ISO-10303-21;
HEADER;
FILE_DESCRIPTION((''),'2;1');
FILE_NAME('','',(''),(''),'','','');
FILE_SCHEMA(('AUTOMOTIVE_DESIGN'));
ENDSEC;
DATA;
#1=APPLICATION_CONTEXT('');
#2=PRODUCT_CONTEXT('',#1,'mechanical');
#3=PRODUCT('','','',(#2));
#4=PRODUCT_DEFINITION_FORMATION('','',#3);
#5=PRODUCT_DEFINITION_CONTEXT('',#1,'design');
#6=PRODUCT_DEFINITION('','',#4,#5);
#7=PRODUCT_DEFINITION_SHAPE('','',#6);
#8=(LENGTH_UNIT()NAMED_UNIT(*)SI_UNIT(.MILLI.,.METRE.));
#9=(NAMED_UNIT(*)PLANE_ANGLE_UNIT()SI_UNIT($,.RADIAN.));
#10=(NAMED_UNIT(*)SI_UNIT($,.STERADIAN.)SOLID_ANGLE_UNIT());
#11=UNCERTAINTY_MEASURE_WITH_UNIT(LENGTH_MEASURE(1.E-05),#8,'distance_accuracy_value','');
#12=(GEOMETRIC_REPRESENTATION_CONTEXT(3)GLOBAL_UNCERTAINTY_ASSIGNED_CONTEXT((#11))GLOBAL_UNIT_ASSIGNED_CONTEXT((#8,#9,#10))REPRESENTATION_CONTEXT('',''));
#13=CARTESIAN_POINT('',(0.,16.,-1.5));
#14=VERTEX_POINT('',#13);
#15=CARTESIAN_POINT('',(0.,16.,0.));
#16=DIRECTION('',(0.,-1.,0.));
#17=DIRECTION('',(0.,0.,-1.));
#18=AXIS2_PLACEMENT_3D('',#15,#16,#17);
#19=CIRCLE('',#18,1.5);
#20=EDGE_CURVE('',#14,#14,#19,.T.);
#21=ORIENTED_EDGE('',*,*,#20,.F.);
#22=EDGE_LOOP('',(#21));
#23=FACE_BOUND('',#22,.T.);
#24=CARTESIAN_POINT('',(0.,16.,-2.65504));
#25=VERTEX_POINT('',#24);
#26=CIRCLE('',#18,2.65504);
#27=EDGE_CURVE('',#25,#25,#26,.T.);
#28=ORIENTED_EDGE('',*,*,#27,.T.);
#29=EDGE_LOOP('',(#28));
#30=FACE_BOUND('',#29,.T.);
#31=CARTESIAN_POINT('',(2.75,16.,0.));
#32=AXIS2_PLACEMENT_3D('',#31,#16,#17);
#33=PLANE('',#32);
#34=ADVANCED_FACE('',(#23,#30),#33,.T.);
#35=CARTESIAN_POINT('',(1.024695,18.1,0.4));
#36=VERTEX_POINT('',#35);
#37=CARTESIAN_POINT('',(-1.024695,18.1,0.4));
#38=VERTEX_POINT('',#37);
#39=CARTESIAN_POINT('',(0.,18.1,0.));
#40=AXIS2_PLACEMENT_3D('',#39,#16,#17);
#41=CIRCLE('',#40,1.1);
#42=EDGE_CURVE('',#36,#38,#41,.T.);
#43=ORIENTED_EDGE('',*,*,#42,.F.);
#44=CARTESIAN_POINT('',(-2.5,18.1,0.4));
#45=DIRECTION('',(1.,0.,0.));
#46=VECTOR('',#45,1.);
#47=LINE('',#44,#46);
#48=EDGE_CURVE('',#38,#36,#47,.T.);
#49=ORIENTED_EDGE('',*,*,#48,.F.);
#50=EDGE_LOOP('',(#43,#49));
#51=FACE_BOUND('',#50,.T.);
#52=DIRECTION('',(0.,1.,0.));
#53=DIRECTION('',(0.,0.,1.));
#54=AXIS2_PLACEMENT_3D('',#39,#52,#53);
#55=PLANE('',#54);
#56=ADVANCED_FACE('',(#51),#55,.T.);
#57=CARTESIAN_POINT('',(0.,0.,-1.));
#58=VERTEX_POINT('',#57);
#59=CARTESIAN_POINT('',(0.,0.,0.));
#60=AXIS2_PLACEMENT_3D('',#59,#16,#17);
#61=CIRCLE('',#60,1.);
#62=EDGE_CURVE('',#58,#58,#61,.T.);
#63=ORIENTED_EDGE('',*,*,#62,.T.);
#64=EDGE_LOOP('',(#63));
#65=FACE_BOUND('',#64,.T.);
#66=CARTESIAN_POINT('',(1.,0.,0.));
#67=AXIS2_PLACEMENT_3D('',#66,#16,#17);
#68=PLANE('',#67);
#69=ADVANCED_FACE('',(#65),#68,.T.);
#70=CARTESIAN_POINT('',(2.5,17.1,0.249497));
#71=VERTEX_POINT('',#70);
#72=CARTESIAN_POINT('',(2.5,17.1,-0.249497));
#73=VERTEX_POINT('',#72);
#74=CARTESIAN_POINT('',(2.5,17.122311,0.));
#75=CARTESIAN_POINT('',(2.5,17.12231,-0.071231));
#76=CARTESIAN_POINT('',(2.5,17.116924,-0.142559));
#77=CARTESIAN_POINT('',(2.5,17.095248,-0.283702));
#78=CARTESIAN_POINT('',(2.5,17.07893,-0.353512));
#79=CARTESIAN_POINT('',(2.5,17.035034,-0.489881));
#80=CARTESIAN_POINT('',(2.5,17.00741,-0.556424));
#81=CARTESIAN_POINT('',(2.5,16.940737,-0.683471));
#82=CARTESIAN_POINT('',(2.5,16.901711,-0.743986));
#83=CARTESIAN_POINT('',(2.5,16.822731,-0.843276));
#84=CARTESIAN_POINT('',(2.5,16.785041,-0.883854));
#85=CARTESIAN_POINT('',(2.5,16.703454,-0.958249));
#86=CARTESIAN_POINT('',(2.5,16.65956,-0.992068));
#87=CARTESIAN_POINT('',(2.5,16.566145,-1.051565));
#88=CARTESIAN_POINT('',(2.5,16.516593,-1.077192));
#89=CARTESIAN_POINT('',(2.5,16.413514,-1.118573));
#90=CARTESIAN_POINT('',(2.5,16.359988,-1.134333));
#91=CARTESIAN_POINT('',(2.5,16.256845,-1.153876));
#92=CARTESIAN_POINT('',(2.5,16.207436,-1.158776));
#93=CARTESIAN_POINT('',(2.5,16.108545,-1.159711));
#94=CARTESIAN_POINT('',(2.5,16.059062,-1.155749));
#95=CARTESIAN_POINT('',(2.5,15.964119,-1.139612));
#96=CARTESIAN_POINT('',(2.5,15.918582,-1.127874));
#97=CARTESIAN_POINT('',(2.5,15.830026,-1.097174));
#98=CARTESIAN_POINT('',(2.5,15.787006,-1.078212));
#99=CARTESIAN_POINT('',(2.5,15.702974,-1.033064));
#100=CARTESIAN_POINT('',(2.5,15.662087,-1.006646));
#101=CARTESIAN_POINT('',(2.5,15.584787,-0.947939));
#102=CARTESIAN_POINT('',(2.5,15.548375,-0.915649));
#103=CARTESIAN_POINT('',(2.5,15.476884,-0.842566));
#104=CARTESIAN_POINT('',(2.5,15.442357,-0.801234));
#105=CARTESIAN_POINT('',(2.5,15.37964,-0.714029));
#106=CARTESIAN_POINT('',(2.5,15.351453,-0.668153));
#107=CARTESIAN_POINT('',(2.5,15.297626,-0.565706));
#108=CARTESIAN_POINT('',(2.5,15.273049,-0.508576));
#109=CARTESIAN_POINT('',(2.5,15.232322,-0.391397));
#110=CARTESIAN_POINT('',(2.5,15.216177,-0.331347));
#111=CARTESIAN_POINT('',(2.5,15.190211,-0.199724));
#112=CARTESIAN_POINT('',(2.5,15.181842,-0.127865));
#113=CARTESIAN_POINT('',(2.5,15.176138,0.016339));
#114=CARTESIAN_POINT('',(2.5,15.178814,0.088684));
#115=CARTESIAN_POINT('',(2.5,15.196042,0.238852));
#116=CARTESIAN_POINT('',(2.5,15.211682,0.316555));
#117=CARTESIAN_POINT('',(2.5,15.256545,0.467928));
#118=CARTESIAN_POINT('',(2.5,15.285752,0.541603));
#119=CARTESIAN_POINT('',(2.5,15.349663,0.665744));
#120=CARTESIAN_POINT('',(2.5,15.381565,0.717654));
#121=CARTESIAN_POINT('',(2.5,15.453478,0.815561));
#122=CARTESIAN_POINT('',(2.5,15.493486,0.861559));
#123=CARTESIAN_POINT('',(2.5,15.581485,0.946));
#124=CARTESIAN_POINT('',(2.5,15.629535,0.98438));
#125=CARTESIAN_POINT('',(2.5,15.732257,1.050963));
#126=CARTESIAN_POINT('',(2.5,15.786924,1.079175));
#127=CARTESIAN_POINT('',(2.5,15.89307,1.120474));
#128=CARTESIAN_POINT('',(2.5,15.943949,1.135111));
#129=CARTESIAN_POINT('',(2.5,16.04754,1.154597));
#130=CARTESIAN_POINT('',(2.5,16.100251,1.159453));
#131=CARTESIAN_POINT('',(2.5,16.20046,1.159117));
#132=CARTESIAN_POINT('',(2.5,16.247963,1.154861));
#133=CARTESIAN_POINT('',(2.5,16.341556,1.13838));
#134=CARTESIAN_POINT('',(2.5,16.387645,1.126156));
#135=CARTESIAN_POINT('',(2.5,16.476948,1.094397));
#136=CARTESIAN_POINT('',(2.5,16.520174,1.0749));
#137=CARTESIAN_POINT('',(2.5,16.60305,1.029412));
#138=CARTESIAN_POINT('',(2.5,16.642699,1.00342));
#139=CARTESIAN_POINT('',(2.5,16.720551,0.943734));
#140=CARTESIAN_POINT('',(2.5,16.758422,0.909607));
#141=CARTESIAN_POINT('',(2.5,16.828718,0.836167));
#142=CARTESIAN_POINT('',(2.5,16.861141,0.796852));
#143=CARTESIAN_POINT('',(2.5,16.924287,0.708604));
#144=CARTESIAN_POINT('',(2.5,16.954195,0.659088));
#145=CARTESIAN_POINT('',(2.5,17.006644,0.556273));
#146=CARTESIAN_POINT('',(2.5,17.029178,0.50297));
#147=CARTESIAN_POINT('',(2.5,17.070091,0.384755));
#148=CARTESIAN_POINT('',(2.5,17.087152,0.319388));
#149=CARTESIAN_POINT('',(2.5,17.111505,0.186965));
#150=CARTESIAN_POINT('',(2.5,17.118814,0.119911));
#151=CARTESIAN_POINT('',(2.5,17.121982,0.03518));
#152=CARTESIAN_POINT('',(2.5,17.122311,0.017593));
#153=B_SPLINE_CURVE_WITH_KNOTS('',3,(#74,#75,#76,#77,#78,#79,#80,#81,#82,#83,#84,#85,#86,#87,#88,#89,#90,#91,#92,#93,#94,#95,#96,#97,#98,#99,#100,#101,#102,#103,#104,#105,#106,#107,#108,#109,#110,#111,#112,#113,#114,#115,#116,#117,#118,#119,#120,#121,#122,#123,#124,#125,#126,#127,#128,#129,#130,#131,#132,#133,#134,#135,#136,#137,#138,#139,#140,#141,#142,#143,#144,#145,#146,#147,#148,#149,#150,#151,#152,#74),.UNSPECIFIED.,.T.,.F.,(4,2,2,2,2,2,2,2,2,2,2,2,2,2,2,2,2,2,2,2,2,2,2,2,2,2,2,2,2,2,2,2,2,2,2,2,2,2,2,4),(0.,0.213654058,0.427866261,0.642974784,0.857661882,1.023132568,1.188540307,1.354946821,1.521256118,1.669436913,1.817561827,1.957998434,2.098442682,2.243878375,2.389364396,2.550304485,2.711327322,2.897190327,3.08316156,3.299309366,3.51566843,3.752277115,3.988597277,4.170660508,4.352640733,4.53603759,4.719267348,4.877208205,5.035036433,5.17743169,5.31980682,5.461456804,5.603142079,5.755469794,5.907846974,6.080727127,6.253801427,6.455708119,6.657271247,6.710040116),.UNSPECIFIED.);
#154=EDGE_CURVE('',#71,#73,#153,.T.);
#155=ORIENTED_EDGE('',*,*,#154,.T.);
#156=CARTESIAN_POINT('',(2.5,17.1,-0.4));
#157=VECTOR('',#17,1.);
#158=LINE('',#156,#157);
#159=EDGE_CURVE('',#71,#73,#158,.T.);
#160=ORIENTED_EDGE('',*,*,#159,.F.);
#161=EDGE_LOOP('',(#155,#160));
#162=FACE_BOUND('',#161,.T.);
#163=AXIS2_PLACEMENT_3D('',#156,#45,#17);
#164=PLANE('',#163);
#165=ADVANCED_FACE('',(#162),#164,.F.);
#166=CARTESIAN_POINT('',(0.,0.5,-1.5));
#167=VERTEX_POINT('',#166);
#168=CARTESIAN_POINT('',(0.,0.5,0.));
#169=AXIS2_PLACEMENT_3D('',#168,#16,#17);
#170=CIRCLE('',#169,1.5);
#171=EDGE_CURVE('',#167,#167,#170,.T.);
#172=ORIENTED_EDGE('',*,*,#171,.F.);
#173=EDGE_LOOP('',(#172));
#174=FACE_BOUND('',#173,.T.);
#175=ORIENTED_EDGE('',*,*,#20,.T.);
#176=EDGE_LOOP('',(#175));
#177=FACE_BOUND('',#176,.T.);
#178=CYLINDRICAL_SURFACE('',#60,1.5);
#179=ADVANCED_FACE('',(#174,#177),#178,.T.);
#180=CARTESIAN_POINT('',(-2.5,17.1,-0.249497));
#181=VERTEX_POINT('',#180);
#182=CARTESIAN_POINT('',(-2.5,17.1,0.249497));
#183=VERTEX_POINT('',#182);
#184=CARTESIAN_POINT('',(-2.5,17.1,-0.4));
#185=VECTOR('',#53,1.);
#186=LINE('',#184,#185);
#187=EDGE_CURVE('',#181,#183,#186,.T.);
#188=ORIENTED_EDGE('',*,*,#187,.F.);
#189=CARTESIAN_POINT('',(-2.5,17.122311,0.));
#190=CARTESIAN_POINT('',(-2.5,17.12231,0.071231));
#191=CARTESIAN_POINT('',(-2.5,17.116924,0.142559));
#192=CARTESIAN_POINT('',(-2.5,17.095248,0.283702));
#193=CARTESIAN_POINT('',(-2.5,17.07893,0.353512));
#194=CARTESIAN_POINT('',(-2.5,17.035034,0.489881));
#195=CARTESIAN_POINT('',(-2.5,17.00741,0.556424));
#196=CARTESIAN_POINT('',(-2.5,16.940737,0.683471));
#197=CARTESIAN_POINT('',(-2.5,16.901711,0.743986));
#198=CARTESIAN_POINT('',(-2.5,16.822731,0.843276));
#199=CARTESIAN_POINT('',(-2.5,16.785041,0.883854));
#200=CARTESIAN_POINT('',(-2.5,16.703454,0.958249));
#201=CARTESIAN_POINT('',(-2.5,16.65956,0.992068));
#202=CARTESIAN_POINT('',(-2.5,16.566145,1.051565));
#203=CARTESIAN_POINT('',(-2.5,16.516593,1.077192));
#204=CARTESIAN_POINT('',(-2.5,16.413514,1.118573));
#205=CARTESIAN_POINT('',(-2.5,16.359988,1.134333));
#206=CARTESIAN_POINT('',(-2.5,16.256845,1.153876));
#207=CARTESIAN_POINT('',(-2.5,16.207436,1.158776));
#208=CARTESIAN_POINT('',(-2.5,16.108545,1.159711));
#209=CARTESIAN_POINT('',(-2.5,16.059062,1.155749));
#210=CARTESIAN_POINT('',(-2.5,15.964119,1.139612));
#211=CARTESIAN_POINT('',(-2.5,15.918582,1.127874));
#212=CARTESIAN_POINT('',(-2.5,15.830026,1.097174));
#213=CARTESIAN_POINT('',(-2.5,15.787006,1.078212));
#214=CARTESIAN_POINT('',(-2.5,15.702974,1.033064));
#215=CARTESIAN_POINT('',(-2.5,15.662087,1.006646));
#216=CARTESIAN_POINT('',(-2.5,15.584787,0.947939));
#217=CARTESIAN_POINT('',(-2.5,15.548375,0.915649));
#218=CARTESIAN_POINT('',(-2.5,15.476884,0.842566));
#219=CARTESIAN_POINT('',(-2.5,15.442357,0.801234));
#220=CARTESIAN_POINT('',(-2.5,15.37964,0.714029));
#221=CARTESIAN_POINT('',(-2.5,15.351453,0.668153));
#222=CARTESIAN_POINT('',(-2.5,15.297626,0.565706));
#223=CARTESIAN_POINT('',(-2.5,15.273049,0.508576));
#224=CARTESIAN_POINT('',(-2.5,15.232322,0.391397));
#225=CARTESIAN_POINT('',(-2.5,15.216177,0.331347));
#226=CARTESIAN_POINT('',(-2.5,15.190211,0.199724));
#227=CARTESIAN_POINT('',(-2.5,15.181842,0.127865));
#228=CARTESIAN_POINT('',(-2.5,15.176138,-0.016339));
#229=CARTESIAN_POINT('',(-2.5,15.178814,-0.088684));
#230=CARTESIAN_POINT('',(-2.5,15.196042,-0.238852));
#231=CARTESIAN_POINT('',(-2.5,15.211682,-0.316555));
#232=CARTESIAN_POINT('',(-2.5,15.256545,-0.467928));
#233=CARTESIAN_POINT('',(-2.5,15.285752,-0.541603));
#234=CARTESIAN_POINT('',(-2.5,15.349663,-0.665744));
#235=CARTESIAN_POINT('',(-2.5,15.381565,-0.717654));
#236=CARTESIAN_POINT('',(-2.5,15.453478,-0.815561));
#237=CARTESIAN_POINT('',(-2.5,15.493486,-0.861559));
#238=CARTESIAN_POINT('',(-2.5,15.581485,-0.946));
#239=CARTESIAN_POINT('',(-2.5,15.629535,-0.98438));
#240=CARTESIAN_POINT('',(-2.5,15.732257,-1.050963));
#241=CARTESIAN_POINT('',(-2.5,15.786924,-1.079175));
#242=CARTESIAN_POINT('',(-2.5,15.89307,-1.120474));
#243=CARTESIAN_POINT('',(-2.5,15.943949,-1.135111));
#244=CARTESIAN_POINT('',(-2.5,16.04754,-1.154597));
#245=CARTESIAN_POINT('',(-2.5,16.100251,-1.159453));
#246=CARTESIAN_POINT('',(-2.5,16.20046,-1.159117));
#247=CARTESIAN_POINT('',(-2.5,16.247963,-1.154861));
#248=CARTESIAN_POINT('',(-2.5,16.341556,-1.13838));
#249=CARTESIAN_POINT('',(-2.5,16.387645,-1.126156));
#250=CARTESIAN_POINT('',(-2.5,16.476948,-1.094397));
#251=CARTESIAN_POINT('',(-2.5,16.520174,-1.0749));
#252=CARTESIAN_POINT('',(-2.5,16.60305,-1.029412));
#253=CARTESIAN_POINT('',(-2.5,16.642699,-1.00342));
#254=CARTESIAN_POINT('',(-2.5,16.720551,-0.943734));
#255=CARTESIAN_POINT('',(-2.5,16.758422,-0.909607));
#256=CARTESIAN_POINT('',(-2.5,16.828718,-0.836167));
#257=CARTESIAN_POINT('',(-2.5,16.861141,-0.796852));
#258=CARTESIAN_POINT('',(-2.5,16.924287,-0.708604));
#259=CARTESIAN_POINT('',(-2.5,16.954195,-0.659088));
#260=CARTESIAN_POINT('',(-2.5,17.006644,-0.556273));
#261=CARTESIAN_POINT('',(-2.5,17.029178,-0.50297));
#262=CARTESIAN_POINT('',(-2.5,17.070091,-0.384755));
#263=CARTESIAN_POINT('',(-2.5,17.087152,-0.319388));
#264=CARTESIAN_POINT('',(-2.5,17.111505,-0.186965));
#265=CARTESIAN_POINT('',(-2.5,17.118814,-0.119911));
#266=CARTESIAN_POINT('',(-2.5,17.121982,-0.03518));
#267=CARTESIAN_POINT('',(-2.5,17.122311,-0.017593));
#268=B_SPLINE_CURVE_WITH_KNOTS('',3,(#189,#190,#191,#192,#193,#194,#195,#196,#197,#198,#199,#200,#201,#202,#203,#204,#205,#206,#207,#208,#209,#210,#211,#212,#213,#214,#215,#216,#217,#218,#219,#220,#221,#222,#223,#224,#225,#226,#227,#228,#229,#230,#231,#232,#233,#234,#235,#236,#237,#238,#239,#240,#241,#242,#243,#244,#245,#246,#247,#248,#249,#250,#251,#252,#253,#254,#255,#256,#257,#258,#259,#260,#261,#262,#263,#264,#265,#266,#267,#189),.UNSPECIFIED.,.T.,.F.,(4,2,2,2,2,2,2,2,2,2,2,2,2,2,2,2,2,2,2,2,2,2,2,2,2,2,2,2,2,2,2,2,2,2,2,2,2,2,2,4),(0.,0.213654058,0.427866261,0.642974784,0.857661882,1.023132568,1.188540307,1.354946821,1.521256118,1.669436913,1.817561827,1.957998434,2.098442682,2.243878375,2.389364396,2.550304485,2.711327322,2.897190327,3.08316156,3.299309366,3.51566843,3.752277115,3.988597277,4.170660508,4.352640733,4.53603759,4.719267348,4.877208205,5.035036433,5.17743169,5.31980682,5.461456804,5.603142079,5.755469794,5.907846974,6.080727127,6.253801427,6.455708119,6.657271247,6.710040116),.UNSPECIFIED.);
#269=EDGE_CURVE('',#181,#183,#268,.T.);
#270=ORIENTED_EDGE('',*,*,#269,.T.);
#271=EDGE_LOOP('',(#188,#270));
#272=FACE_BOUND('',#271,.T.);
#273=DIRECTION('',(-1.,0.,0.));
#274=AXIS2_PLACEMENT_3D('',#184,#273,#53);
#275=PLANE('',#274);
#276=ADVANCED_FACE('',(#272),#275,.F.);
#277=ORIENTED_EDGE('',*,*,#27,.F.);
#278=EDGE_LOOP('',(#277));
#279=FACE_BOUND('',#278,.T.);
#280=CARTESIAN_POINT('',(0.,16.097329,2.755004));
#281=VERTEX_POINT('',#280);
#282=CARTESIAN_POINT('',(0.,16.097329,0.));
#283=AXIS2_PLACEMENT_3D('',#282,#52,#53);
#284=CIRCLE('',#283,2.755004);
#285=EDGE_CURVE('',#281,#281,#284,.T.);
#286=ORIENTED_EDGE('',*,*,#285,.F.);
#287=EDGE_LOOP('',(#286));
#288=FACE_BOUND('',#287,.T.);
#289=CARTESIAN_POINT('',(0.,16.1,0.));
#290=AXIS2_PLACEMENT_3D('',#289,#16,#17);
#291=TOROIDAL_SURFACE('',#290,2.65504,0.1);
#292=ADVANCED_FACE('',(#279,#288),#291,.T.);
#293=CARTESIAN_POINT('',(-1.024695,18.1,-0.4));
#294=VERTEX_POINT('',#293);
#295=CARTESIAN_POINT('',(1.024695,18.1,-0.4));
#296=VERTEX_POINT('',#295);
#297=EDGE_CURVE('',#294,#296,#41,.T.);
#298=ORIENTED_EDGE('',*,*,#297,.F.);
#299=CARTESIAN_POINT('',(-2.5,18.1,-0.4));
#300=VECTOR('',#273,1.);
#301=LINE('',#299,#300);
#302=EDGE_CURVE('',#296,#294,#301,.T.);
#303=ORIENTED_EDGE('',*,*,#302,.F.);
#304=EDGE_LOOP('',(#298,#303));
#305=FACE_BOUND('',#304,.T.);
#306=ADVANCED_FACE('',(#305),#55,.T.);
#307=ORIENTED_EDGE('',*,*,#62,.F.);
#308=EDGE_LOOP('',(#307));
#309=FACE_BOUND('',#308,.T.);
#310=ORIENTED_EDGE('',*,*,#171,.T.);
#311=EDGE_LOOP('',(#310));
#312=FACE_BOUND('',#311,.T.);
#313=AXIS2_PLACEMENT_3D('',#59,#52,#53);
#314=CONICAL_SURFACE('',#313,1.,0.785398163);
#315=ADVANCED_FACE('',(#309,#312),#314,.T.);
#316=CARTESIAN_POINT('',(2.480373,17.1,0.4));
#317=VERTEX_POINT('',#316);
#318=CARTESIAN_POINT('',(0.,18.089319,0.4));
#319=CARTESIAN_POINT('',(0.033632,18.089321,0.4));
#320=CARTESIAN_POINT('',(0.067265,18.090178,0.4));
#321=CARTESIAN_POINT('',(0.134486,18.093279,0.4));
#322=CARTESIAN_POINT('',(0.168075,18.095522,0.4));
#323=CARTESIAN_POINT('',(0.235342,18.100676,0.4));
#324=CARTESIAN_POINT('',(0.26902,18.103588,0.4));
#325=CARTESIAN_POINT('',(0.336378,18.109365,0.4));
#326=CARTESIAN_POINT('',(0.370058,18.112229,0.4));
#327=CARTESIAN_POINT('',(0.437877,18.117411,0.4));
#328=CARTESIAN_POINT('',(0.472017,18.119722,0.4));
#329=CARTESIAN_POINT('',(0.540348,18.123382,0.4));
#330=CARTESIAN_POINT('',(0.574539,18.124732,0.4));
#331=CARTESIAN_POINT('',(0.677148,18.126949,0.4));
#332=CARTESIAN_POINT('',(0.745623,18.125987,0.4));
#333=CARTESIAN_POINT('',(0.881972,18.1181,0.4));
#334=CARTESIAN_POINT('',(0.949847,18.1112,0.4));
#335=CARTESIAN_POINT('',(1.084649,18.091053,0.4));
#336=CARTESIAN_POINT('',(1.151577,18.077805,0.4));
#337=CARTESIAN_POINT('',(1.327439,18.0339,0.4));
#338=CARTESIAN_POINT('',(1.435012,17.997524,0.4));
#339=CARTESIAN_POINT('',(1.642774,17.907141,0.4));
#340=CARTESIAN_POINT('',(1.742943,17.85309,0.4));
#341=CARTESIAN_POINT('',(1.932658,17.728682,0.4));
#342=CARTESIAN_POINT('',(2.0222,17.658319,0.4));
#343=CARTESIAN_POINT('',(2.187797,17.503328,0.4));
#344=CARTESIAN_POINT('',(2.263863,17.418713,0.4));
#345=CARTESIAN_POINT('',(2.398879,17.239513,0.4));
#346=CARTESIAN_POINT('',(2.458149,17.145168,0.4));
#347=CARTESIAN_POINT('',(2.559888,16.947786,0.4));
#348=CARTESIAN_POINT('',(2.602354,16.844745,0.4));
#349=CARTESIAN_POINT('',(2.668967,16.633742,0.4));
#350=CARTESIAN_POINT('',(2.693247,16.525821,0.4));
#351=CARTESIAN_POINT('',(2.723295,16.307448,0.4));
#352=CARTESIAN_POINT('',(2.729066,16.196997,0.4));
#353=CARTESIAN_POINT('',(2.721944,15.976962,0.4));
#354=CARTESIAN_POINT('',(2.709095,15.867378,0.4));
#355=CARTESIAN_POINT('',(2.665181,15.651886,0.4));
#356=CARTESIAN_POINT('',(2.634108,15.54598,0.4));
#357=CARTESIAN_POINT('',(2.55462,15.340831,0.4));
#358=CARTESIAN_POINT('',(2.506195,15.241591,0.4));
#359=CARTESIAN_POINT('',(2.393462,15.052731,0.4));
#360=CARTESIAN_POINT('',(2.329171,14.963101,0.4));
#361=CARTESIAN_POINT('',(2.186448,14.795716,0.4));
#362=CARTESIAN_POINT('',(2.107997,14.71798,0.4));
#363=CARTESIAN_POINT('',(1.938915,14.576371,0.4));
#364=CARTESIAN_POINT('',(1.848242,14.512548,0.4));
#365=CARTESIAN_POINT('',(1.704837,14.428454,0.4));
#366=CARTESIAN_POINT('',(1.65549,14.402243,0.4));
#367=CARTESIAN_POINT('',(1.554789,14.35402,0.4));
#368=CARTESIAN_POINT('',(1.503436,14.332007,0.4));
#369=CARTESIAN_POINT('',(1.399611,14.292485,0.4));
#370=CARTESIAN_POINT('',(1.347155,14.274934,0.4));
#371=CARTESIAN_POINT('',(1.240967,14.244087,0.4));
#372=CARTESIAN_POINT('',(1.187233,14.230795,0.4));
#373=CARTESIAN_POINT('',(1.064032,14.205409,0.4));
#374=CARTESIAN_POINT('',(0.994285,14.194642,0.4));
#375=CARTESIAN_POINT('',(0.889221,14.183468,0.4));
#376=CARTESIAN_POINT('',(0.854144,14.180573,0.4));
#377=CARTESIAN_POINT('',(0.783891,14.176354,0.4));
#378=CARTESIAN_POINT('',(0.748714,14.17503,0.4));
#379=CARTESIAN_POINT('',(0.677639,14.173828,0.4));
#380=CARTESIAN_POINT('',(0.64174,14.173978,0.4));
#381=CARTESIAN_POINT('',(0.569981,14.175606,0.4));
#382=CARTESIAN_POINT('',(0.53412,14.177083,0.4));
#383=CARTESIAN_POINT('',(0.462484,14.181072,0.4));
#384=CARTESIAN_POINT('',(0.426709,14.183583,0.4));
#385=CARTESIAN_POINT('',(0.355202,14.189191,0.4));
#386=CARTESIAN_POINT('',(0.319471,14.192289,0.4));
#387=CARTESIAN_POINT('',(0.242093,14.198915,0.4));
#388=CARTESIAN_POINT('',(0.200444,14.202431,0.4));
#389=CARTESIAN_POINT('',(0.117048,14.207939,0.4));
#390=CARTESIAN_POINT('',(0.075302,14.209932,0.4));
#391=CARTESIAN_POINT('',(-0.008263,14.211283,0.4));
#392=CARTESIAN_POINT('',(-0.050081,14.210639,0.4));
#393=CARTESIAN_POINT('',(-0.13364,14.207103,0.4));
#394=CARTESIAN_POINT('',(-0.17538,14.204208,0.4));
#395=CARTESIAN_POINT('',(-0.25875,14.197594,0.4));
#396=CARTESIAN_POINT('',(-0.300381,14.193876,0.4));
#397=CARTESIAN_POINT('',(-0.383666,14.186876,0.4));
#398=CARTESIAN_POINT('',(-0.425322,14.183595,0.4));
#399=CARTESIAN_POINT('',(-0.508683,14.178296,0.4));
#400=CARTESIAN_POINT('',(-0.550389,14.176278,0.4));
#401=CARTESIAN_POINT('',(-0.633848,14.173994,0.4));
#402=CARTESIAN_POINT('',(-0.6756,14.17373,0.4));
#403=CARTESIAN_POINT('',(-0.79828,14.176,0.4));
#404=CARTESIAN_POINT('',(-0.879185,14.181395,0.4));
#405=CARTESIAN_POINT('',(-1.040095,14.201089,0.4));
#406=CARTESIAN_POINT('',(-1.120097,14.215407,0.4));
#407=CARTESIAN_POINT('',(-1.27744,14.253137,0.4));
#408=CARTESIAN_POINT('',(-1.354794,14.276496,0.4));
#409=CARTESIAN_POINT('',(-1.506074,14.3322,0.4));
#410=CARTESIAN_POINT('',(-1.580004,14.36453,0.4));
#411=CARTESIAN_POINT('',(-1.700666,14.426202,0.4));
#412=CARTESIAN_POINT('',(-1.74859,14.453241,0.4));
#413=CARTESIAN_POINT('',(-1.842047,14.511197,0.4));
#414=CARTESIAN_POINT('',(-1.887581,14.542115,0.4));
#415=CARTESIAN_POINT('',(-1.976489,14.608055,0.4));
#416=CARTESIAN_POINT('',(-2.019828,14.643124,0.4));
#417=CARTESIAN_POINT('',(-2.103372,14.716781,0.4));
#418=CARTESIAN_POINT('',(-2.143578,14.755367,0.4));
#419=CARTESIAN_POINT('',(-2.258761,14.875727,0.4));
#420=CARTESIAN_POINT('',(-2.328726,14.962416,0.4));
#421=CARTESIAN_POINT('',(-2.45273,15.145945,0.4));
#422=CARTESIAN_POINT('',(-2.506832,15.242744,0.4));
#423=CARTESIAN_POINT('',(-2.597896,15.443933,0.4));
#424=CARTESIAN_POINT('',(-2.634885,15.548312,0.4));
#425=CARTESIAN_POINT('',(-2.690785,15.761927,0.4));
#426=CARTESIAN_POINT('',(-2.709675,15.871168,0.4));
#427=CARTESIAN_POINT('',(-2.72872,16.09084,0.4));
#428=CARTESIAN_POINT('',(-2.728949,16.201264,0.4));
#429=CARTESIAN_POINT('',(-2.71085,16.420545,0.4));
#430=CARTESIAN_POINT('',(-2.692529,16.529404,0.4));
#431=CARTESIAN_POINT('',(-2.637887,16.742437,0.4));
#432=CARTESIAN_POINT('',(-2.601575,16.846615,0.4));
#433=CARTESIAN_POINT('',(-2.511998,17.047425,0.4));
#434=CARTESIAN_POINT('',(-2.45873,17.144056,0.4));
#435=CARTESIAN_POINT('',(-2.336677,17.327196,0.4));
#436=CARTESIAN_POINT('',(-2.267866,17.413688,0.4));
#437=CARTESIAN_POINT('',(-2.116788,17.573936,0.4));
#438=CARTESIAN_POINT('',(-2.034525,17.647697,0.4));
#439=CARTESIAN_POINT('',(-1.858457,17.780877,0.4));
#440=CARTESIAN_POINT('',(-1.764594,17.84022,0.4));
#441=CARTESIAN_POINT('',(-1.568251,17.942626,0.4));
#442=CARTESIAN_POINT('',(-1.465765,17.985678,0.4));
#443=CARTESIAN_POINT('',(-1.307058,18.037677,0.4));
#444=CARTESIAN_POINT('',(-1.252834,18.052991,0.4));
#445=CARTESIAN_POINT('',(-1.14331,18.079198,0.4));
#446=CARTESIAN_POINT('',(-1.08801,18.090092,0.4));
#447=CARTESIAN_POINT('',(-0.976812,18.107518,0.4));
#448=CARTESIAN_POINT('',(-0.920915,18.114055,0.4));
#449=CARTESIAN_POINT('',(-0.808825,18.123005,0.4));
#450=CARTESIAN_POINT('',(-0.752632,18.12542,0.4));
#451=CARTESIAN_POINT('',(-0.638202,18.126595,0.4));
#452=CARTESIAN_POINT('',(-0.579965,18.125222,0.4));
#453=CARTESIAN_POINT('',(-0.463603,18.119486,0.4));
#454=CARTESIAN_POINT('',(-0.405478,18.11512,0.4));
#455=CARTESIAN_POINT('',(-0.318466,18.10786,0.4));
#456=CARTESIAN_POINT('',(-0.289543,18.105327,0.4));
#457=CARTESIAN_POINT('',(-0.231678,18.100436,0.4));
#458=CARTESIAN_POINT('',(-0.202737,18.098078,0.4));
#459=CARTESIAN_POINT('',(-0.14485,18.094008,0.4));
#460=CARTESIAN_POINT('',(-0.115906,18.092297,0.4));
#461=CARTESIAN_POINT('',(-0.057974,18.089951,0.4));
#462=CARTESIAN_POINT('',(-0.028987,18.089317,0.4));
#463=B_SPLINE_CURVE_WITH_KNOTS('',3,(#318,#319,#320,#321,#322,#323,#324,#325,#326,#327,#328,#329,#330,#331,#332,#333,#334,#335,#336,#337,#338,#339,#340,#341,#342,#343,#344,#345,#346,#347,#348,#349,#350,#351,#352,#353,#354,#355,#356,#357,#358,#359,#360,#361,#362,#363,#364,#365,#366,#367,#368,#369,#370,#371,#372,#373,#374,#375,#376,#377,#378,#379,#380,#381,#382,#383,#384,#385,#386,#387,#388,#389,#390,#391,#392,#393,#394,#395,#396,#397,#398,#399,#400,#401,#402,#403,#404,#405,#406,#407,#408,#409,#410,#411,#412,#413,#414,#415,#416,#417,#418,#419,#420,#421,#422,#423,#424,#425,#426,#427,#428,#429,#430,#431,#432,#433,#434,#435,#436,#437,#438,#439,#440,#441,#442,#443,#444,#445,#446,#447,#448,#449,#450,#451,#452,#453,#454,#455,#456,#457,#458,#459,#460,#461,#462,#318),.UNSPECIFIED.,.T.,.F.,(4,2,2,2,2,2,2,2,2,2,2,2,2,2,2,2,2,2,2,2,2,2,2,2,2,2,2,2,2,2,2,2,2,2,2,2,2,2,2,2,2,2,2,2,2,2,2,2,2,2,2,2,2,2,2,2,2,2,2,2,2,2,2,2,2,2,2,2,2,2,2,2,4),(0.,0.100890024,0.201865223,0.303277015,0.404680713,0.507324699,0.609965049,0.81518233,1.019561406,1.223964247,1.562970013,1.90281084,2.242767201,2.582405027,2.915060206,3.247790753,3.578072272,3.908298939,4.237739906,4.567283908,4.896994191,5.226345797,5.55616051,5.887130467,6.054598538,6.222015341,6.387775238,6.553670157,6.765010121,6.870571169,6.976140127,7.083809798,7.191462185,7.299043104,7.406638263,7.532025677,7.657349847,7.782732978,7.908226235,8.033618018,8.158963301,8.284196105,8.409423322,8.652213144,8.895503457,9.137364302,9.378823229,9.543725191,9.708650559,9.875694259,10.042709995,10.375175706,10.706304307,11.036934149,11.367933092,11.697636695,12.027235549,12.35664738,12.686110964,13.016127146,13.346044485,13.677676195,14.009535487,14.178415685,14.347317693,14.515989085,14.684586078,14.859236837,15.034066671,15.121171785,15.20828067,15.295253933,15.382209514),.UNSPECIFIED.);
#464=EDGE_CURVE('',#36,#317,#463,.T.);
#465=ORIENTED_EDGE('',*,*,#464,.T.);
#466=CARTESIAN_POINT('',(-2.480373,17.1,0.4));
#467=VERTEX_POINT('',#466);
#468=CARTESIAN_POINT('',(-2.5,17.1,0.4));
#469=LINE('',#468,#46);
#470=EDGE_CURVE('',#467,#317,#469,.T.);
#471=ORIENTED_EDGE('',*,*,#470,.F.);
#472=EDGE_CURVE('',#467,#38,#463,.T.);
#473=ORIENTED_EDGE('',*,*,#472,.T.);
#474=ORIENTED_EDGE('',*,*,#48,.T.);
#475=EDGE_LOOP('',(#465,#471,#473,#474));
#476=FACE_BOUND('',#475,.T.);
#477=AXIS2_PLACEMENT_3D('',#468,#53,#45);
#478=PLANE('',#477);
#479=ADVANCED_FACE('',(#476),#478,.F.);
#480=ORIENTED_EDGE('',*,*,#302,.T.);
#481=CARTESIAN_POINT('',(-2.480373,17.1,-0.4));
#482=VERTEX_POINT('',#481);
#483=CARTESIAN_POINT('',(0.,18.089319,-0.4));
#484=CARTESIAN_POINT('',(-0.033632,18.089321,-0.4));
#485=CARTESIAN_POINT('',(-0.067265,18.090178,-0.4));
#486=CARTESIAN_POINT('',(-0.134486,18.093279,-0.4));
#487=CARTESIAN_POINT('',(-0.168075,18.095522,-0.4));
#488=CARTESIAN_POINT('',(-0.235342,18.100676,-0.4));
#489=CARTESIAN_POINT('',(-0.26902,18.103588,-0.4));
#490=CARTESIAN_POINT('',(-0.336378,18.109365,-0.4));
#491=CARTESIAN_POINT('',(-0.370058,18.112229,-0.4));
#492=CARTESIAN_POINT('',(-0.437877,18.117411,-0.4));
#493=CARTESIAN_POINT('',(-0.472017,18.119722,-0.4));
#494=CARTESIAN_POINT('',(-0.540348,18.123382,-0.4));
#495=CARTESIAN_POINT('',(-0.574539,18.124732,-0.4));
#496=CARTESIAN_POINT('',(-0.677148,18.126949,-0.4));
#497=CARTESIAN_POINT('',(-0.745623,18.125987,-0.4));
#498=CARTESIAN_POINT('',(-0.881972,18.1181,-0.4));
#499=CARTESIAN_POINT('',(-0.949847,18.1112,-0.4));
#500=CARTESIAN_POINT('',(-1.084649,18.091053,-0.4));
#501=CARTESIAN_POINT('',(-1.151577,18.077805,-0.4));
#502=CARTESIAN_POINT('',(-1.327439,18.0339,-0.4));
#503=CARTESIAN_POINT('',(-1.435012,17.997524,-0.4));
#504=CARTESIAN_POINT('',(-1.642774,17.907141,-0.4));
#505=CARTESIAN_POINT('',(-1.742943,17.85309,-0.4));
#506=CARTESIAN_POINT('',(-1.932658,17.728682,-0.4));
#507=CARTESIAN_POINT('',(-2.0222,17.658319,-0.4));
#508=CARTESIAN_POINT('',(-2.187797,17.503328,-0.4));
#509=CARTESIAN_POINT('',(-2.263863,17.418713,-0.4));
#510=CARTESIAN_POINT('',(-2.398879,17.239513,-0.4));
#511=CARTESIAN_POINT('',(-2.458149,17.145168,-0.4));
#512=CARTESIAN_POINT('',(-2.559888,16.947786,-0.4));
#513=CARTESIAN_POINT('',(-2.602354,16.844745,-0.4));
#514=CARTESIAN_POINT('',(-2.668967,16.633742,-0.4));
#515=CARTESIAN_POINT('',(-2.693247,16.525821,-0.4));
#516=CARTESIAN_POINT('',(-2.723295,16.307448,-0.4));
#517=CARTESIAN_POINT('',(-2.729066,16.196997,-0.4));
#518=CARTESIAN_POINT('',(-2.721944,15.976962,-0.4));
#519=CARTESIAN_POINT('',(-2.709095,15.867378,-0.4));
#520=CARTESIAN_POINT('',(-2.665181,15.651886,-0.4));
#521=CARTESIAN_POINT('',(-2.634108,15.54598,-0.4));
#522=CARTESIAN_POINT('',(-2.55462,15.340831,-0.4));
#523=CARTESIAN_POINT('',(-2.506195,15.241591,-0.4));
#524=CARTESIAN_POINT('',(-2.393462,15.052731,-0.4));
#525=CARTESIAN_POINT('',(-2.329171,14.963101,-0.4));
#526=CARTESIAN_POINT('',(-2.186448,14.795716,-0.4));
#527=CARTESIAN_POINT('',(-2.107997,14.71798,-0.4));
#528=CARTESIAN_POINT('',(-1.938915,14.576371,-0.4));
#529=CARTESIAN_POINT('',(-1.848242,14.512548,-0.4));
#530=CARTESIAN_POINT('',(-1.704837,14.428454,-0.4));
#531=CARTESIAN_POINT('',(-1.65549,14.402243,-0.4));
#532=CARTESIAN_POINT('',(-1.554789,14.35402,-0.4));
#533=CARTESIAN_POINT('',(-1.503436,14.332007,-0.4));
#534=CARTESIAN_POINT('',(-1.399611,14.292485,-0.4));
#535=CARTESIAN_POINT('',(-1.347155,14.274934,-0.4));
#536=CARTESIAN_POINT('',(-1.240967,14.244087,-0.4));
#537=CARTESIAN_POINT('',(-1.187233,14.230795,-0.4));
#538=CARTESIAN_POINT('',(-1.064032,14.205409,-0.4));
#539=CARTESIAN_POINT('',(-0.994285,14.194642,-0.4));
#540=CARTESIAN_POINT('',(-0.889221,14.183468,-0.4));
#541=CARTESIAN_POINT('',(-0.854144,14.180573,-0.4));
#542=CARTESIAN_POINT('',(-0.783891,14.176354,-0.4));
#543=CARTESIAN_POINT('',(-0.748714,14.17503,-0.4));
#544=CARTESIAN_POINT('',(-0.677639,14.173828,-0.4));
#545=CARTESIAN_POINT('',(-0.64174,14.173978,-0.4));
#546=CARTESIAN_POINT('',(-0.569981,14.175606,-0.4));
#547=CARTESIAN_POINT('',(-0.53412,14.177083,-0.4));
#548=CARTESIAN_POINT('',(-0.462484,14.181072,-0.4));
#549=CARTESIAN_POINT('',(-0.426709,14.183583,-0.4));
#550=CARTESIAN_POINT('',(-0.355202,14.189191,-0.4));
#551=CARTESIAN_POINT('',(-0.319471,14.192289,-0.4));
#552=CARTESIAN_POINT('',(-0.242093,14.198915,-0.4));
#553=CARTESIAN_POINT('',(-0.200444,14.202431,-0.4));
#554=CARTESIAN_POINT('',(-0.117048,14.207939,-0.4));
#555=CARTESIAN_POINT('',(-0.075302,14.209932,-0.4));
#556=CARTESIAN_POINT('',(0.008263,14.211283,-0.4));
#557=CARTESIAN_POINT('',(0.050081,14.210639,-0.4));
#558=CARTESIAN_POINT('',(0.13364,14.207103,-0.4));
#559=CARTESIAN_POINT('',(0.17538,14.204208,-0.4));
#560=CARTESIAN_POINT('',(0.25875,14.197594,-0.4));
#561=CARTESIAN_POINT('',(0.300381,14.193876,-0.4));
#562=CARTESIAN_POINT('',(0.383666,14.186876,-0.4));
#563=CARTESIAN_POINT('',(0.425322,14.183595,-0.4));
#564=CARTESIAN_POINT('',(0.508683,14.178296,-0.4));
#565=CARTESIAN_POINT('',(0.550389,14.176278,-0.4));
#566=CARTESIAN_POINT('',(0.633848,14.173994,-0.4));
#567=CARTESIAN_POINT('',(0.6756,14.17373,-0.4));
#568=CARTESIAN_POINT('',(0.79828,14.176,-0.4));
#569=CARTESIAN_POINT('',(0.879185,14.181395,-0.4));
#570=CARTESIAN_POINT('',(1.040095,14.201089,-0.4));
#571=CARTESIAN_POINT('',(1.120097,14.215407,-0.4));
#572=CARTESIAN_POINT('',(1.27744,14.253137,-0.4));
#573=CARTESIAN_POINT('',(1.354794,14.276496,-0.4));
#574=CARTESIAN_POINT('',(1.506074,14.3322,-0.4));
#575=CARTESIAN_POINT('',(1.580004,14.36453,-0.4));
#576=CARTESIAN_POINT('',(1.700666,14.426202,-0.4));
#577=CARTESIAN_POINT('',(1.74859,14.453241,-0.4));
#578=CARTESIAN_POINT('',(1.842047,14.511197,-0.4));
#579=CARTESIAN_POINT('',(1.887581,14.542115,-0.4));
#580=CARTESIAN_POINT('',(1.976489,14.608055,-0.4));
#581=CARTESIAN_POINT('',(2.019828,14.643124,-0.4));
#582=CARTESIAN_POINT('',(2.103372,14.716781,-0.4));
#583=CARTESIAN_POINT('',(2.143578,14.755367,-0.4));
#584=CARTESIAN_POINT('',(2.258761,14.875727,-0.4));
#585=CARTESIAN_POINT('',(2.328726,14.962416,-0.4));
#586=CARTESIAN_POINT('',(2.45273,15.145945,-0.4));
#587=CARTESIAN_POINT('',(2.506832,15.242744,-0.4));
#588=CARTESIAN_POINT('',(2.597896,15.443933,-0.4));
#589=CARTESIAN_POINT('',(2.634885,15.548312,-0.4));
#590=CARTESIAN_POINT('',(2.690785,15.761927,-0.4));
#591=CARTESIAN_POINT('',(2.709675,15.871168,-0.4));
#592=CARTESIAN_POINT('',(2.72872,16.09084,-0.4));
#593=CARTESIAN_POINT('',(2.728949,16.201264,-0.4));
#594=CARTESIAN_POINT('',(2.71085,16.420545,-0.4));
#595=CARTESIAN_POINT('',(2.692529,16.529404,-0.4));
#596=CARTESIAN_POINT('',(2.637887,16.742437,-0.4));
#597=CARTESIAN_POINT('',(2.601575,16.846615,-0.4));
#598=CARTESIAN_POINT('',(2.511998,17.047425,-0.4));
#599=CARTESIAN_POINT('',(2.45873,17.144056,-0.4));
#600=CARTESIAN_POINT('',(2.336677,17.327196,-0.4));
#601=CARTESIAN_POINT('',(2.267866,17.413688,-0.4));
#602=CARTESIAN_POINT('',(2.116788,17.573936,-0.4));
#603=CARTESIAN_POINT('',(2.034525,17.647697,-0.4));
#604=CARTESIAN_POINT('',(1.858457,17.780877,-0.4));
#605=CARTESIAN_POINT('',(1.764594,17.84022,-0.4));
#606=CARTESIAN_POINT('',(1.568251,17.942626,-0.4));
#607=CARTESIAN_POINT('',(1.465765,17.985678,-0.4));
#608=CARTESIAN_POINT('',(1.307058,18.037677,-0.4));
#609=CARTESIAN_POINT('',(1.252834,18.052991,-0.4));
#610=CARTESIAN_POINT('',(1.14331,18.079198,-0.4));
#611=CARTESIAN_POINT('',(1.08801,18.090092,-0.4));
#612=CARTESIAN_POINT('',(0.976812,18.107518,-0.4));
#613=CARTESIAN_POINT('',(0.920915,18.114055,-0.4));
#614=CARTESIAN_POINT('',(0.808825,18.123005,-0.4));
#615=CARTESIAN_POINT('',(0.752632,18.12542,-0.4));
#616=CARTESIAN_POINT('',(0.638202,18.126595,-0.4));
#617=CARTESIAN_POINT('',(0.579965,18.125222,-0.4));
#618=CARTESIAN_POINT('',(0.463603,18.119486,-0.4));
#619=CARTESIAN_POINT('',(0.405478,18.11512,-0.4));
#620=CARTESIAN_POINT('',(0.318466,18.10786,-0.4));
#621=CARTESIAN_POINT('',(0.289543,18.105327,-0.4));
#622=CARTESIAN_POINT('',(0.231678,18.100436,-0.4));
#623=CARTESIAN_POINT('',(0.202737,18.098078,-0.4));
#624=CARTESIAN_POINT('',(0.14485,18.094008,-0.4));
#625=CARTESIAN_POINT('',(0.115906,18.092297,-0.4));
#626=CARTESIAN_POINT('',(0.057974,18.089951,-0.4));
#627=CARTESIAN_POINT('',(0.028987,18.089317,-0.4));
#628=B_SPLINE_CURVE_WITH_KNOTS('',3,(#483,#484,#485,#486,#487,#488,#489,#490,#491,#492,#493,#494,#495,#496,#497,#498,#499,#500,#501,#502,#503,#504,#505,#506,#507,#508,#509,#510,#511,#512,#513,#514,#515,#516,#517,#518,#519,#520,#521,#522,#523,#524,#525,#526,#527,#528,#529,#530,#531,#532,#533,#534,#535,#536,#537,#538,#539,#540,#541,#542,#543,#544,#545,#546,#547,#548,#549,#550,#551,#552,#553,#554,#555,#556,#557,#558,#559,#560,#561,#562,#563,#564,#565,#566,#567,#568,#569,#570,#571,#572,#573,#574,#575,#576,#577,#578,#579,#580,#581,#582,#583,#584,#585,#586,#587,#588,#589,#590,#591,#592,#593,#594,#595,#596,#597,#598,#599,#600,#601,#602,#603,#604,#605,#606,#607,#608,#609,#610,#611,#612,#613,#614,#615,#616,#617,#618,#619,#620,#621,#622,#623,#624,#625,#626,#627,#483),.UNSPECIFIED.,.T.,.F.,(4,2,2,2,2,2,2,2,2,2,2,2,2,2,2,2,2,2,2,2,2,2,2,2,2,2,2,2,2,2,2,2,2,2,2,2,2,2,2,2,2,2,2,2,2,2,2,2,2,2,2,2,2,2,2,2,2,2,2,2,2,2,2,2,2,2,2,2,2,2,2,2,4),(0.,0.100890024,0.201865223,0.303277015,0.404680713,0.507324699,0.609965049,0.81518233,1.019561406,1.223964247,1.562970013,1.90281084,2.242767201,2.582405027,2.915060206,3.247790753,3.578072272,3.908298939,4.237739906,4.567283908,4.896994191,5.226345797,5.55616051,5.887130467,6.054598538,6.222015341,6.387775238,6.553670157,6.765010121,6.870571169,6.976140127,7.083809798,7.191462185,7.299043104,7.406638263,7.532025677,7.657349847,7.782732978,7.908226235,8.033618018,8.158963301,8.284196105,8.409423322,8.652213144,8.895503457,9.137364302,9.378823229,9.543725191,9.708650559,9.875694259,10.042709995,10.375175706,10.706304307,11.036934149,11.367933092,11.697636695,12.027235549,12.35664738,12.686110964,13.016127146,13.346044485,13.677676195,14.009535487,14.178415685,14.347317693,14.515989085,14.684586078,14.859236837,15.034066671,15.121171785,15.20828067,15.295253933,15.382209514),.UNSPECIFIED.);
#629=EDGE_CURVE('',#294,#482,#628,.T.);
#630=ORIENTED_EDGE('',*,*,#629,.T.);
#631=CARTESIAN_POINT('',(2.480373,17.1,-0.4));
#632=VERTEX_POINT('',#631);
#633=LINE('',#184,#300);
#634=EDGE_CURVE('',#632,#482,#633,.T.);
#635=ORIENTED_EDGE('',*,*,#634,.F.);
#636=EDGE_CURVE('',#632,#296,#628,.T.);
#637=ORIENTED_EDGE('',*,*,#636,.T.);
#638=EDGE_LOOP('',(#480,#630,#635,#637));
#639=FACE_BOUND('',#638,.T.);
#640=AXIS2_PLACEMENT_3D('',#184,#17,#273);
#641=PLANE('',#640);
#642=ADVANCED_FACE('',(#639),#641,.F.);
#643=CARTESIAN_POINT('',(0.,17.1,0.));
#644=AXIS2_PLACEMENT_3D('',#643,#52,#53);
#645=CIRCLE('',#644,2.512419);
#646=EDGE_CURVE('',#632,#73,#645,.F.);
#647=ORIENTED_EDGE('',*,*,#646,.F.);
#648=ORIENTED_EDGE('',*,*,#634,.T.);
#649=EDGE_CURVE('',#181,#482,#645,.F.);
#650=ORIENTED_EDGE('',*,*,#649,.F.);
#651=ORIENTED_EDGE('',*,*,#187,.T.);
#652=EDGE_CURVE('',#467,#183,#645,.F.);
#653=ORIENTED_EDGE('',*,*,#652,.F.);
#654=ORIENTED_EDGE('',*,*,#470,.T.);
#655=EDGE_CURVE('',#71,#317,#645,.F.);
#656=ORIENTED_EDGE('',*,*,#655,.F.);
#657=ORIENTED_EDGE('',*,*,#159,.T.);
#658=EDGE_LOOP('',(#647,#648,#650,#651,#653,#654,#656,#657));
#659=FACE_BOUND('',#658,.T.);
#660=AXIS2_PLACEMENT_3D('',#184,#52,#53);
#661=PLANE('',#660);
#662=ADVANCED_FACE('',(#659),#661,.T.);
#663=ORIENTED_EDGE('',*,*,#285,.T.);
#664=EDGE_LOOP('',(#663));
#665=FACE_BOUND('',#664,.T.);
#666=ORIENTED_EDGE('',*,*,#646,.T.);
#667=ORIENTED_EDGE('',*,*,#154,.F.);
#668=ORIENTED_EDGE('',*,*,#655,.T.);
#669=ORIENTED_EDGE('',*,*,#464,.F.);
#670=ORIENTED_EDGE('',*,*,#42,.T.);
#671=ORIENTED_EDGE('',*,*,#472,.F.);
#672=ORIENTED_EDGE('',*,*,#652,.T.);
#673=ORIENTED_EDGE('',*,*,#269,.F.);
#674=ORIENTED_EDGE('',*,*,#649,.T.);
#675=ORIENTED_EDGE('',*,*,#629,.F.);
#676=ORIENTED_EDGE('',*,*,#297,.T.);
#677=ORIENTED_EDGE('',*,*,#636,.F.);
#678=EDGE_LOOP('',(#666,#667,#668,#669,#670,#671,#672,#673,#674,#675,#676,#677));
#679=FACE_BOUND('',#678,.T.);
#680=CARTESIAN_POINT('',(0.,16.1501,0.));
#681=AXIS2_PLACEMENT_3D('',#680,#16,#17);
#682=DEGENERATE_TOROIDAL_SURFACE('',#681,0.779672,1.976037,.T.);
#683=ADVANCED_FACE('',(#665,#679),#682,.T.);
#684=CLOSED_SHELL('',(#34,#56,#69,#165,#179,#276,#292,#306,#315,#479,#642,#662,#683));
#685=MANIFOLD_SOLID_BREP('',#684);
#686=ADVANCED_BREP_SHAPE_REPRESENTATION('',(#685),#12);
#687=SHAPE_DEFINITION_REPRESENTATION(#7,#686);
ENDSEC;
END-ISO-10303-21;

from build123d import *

# Parameters (mm, degrees)
FILLET_1_R          = 0.1
SKETCH_3_W          = 5
SKETCH_3_H          = 0.8
CUT_EXTRUDE_2_DEPTH = 1


with BuildPart() as part:
    # Эскиз1 → Повернуть1 (revolve)
    with BuildSketch(Plane.XY):
        with BuildLine():
            Line((2.75, 16), (1.5, 16))
            Line((1.5, 16), (1.5, 0.5))
            Line((1.5, 0.5), (1, 0))
            Line((1, 0), (0, 0))
            Line((0, 0), (0, 18.1))
            Line((0, 18.1), (1.1, 18.1))
            ThreePointArc((1.1, 18.1), (2.333466256, 17.370937772), (2.75, 16))
        make_face()
    revolve(axis=Axis((0, 0, 0), (0, 1, 0)))

    # Скругление1
    fillet_1_edges = [part.edges().sort_by_distance(p)[0] for p in [
        (-2.75, 16, 0),
    ]]
    fillet(fillet_1_edges, radius=FILLET_1_R)

    # Эскиз3 → Вырез-Вытянуть2 (cut)
    with BuildSketch(Plane(origin=(0, 18.1, 0), x_dir=(-1, 0, 0), z_dir=(0, 1, 0))):
        Rectangle(SKETCH_3_W, SKETCH_3_H)
    extrude(amount=-CUT_EXTRUDE_2_DEPTH, mode=Mode.SUBTRACT)


solid = part.part
